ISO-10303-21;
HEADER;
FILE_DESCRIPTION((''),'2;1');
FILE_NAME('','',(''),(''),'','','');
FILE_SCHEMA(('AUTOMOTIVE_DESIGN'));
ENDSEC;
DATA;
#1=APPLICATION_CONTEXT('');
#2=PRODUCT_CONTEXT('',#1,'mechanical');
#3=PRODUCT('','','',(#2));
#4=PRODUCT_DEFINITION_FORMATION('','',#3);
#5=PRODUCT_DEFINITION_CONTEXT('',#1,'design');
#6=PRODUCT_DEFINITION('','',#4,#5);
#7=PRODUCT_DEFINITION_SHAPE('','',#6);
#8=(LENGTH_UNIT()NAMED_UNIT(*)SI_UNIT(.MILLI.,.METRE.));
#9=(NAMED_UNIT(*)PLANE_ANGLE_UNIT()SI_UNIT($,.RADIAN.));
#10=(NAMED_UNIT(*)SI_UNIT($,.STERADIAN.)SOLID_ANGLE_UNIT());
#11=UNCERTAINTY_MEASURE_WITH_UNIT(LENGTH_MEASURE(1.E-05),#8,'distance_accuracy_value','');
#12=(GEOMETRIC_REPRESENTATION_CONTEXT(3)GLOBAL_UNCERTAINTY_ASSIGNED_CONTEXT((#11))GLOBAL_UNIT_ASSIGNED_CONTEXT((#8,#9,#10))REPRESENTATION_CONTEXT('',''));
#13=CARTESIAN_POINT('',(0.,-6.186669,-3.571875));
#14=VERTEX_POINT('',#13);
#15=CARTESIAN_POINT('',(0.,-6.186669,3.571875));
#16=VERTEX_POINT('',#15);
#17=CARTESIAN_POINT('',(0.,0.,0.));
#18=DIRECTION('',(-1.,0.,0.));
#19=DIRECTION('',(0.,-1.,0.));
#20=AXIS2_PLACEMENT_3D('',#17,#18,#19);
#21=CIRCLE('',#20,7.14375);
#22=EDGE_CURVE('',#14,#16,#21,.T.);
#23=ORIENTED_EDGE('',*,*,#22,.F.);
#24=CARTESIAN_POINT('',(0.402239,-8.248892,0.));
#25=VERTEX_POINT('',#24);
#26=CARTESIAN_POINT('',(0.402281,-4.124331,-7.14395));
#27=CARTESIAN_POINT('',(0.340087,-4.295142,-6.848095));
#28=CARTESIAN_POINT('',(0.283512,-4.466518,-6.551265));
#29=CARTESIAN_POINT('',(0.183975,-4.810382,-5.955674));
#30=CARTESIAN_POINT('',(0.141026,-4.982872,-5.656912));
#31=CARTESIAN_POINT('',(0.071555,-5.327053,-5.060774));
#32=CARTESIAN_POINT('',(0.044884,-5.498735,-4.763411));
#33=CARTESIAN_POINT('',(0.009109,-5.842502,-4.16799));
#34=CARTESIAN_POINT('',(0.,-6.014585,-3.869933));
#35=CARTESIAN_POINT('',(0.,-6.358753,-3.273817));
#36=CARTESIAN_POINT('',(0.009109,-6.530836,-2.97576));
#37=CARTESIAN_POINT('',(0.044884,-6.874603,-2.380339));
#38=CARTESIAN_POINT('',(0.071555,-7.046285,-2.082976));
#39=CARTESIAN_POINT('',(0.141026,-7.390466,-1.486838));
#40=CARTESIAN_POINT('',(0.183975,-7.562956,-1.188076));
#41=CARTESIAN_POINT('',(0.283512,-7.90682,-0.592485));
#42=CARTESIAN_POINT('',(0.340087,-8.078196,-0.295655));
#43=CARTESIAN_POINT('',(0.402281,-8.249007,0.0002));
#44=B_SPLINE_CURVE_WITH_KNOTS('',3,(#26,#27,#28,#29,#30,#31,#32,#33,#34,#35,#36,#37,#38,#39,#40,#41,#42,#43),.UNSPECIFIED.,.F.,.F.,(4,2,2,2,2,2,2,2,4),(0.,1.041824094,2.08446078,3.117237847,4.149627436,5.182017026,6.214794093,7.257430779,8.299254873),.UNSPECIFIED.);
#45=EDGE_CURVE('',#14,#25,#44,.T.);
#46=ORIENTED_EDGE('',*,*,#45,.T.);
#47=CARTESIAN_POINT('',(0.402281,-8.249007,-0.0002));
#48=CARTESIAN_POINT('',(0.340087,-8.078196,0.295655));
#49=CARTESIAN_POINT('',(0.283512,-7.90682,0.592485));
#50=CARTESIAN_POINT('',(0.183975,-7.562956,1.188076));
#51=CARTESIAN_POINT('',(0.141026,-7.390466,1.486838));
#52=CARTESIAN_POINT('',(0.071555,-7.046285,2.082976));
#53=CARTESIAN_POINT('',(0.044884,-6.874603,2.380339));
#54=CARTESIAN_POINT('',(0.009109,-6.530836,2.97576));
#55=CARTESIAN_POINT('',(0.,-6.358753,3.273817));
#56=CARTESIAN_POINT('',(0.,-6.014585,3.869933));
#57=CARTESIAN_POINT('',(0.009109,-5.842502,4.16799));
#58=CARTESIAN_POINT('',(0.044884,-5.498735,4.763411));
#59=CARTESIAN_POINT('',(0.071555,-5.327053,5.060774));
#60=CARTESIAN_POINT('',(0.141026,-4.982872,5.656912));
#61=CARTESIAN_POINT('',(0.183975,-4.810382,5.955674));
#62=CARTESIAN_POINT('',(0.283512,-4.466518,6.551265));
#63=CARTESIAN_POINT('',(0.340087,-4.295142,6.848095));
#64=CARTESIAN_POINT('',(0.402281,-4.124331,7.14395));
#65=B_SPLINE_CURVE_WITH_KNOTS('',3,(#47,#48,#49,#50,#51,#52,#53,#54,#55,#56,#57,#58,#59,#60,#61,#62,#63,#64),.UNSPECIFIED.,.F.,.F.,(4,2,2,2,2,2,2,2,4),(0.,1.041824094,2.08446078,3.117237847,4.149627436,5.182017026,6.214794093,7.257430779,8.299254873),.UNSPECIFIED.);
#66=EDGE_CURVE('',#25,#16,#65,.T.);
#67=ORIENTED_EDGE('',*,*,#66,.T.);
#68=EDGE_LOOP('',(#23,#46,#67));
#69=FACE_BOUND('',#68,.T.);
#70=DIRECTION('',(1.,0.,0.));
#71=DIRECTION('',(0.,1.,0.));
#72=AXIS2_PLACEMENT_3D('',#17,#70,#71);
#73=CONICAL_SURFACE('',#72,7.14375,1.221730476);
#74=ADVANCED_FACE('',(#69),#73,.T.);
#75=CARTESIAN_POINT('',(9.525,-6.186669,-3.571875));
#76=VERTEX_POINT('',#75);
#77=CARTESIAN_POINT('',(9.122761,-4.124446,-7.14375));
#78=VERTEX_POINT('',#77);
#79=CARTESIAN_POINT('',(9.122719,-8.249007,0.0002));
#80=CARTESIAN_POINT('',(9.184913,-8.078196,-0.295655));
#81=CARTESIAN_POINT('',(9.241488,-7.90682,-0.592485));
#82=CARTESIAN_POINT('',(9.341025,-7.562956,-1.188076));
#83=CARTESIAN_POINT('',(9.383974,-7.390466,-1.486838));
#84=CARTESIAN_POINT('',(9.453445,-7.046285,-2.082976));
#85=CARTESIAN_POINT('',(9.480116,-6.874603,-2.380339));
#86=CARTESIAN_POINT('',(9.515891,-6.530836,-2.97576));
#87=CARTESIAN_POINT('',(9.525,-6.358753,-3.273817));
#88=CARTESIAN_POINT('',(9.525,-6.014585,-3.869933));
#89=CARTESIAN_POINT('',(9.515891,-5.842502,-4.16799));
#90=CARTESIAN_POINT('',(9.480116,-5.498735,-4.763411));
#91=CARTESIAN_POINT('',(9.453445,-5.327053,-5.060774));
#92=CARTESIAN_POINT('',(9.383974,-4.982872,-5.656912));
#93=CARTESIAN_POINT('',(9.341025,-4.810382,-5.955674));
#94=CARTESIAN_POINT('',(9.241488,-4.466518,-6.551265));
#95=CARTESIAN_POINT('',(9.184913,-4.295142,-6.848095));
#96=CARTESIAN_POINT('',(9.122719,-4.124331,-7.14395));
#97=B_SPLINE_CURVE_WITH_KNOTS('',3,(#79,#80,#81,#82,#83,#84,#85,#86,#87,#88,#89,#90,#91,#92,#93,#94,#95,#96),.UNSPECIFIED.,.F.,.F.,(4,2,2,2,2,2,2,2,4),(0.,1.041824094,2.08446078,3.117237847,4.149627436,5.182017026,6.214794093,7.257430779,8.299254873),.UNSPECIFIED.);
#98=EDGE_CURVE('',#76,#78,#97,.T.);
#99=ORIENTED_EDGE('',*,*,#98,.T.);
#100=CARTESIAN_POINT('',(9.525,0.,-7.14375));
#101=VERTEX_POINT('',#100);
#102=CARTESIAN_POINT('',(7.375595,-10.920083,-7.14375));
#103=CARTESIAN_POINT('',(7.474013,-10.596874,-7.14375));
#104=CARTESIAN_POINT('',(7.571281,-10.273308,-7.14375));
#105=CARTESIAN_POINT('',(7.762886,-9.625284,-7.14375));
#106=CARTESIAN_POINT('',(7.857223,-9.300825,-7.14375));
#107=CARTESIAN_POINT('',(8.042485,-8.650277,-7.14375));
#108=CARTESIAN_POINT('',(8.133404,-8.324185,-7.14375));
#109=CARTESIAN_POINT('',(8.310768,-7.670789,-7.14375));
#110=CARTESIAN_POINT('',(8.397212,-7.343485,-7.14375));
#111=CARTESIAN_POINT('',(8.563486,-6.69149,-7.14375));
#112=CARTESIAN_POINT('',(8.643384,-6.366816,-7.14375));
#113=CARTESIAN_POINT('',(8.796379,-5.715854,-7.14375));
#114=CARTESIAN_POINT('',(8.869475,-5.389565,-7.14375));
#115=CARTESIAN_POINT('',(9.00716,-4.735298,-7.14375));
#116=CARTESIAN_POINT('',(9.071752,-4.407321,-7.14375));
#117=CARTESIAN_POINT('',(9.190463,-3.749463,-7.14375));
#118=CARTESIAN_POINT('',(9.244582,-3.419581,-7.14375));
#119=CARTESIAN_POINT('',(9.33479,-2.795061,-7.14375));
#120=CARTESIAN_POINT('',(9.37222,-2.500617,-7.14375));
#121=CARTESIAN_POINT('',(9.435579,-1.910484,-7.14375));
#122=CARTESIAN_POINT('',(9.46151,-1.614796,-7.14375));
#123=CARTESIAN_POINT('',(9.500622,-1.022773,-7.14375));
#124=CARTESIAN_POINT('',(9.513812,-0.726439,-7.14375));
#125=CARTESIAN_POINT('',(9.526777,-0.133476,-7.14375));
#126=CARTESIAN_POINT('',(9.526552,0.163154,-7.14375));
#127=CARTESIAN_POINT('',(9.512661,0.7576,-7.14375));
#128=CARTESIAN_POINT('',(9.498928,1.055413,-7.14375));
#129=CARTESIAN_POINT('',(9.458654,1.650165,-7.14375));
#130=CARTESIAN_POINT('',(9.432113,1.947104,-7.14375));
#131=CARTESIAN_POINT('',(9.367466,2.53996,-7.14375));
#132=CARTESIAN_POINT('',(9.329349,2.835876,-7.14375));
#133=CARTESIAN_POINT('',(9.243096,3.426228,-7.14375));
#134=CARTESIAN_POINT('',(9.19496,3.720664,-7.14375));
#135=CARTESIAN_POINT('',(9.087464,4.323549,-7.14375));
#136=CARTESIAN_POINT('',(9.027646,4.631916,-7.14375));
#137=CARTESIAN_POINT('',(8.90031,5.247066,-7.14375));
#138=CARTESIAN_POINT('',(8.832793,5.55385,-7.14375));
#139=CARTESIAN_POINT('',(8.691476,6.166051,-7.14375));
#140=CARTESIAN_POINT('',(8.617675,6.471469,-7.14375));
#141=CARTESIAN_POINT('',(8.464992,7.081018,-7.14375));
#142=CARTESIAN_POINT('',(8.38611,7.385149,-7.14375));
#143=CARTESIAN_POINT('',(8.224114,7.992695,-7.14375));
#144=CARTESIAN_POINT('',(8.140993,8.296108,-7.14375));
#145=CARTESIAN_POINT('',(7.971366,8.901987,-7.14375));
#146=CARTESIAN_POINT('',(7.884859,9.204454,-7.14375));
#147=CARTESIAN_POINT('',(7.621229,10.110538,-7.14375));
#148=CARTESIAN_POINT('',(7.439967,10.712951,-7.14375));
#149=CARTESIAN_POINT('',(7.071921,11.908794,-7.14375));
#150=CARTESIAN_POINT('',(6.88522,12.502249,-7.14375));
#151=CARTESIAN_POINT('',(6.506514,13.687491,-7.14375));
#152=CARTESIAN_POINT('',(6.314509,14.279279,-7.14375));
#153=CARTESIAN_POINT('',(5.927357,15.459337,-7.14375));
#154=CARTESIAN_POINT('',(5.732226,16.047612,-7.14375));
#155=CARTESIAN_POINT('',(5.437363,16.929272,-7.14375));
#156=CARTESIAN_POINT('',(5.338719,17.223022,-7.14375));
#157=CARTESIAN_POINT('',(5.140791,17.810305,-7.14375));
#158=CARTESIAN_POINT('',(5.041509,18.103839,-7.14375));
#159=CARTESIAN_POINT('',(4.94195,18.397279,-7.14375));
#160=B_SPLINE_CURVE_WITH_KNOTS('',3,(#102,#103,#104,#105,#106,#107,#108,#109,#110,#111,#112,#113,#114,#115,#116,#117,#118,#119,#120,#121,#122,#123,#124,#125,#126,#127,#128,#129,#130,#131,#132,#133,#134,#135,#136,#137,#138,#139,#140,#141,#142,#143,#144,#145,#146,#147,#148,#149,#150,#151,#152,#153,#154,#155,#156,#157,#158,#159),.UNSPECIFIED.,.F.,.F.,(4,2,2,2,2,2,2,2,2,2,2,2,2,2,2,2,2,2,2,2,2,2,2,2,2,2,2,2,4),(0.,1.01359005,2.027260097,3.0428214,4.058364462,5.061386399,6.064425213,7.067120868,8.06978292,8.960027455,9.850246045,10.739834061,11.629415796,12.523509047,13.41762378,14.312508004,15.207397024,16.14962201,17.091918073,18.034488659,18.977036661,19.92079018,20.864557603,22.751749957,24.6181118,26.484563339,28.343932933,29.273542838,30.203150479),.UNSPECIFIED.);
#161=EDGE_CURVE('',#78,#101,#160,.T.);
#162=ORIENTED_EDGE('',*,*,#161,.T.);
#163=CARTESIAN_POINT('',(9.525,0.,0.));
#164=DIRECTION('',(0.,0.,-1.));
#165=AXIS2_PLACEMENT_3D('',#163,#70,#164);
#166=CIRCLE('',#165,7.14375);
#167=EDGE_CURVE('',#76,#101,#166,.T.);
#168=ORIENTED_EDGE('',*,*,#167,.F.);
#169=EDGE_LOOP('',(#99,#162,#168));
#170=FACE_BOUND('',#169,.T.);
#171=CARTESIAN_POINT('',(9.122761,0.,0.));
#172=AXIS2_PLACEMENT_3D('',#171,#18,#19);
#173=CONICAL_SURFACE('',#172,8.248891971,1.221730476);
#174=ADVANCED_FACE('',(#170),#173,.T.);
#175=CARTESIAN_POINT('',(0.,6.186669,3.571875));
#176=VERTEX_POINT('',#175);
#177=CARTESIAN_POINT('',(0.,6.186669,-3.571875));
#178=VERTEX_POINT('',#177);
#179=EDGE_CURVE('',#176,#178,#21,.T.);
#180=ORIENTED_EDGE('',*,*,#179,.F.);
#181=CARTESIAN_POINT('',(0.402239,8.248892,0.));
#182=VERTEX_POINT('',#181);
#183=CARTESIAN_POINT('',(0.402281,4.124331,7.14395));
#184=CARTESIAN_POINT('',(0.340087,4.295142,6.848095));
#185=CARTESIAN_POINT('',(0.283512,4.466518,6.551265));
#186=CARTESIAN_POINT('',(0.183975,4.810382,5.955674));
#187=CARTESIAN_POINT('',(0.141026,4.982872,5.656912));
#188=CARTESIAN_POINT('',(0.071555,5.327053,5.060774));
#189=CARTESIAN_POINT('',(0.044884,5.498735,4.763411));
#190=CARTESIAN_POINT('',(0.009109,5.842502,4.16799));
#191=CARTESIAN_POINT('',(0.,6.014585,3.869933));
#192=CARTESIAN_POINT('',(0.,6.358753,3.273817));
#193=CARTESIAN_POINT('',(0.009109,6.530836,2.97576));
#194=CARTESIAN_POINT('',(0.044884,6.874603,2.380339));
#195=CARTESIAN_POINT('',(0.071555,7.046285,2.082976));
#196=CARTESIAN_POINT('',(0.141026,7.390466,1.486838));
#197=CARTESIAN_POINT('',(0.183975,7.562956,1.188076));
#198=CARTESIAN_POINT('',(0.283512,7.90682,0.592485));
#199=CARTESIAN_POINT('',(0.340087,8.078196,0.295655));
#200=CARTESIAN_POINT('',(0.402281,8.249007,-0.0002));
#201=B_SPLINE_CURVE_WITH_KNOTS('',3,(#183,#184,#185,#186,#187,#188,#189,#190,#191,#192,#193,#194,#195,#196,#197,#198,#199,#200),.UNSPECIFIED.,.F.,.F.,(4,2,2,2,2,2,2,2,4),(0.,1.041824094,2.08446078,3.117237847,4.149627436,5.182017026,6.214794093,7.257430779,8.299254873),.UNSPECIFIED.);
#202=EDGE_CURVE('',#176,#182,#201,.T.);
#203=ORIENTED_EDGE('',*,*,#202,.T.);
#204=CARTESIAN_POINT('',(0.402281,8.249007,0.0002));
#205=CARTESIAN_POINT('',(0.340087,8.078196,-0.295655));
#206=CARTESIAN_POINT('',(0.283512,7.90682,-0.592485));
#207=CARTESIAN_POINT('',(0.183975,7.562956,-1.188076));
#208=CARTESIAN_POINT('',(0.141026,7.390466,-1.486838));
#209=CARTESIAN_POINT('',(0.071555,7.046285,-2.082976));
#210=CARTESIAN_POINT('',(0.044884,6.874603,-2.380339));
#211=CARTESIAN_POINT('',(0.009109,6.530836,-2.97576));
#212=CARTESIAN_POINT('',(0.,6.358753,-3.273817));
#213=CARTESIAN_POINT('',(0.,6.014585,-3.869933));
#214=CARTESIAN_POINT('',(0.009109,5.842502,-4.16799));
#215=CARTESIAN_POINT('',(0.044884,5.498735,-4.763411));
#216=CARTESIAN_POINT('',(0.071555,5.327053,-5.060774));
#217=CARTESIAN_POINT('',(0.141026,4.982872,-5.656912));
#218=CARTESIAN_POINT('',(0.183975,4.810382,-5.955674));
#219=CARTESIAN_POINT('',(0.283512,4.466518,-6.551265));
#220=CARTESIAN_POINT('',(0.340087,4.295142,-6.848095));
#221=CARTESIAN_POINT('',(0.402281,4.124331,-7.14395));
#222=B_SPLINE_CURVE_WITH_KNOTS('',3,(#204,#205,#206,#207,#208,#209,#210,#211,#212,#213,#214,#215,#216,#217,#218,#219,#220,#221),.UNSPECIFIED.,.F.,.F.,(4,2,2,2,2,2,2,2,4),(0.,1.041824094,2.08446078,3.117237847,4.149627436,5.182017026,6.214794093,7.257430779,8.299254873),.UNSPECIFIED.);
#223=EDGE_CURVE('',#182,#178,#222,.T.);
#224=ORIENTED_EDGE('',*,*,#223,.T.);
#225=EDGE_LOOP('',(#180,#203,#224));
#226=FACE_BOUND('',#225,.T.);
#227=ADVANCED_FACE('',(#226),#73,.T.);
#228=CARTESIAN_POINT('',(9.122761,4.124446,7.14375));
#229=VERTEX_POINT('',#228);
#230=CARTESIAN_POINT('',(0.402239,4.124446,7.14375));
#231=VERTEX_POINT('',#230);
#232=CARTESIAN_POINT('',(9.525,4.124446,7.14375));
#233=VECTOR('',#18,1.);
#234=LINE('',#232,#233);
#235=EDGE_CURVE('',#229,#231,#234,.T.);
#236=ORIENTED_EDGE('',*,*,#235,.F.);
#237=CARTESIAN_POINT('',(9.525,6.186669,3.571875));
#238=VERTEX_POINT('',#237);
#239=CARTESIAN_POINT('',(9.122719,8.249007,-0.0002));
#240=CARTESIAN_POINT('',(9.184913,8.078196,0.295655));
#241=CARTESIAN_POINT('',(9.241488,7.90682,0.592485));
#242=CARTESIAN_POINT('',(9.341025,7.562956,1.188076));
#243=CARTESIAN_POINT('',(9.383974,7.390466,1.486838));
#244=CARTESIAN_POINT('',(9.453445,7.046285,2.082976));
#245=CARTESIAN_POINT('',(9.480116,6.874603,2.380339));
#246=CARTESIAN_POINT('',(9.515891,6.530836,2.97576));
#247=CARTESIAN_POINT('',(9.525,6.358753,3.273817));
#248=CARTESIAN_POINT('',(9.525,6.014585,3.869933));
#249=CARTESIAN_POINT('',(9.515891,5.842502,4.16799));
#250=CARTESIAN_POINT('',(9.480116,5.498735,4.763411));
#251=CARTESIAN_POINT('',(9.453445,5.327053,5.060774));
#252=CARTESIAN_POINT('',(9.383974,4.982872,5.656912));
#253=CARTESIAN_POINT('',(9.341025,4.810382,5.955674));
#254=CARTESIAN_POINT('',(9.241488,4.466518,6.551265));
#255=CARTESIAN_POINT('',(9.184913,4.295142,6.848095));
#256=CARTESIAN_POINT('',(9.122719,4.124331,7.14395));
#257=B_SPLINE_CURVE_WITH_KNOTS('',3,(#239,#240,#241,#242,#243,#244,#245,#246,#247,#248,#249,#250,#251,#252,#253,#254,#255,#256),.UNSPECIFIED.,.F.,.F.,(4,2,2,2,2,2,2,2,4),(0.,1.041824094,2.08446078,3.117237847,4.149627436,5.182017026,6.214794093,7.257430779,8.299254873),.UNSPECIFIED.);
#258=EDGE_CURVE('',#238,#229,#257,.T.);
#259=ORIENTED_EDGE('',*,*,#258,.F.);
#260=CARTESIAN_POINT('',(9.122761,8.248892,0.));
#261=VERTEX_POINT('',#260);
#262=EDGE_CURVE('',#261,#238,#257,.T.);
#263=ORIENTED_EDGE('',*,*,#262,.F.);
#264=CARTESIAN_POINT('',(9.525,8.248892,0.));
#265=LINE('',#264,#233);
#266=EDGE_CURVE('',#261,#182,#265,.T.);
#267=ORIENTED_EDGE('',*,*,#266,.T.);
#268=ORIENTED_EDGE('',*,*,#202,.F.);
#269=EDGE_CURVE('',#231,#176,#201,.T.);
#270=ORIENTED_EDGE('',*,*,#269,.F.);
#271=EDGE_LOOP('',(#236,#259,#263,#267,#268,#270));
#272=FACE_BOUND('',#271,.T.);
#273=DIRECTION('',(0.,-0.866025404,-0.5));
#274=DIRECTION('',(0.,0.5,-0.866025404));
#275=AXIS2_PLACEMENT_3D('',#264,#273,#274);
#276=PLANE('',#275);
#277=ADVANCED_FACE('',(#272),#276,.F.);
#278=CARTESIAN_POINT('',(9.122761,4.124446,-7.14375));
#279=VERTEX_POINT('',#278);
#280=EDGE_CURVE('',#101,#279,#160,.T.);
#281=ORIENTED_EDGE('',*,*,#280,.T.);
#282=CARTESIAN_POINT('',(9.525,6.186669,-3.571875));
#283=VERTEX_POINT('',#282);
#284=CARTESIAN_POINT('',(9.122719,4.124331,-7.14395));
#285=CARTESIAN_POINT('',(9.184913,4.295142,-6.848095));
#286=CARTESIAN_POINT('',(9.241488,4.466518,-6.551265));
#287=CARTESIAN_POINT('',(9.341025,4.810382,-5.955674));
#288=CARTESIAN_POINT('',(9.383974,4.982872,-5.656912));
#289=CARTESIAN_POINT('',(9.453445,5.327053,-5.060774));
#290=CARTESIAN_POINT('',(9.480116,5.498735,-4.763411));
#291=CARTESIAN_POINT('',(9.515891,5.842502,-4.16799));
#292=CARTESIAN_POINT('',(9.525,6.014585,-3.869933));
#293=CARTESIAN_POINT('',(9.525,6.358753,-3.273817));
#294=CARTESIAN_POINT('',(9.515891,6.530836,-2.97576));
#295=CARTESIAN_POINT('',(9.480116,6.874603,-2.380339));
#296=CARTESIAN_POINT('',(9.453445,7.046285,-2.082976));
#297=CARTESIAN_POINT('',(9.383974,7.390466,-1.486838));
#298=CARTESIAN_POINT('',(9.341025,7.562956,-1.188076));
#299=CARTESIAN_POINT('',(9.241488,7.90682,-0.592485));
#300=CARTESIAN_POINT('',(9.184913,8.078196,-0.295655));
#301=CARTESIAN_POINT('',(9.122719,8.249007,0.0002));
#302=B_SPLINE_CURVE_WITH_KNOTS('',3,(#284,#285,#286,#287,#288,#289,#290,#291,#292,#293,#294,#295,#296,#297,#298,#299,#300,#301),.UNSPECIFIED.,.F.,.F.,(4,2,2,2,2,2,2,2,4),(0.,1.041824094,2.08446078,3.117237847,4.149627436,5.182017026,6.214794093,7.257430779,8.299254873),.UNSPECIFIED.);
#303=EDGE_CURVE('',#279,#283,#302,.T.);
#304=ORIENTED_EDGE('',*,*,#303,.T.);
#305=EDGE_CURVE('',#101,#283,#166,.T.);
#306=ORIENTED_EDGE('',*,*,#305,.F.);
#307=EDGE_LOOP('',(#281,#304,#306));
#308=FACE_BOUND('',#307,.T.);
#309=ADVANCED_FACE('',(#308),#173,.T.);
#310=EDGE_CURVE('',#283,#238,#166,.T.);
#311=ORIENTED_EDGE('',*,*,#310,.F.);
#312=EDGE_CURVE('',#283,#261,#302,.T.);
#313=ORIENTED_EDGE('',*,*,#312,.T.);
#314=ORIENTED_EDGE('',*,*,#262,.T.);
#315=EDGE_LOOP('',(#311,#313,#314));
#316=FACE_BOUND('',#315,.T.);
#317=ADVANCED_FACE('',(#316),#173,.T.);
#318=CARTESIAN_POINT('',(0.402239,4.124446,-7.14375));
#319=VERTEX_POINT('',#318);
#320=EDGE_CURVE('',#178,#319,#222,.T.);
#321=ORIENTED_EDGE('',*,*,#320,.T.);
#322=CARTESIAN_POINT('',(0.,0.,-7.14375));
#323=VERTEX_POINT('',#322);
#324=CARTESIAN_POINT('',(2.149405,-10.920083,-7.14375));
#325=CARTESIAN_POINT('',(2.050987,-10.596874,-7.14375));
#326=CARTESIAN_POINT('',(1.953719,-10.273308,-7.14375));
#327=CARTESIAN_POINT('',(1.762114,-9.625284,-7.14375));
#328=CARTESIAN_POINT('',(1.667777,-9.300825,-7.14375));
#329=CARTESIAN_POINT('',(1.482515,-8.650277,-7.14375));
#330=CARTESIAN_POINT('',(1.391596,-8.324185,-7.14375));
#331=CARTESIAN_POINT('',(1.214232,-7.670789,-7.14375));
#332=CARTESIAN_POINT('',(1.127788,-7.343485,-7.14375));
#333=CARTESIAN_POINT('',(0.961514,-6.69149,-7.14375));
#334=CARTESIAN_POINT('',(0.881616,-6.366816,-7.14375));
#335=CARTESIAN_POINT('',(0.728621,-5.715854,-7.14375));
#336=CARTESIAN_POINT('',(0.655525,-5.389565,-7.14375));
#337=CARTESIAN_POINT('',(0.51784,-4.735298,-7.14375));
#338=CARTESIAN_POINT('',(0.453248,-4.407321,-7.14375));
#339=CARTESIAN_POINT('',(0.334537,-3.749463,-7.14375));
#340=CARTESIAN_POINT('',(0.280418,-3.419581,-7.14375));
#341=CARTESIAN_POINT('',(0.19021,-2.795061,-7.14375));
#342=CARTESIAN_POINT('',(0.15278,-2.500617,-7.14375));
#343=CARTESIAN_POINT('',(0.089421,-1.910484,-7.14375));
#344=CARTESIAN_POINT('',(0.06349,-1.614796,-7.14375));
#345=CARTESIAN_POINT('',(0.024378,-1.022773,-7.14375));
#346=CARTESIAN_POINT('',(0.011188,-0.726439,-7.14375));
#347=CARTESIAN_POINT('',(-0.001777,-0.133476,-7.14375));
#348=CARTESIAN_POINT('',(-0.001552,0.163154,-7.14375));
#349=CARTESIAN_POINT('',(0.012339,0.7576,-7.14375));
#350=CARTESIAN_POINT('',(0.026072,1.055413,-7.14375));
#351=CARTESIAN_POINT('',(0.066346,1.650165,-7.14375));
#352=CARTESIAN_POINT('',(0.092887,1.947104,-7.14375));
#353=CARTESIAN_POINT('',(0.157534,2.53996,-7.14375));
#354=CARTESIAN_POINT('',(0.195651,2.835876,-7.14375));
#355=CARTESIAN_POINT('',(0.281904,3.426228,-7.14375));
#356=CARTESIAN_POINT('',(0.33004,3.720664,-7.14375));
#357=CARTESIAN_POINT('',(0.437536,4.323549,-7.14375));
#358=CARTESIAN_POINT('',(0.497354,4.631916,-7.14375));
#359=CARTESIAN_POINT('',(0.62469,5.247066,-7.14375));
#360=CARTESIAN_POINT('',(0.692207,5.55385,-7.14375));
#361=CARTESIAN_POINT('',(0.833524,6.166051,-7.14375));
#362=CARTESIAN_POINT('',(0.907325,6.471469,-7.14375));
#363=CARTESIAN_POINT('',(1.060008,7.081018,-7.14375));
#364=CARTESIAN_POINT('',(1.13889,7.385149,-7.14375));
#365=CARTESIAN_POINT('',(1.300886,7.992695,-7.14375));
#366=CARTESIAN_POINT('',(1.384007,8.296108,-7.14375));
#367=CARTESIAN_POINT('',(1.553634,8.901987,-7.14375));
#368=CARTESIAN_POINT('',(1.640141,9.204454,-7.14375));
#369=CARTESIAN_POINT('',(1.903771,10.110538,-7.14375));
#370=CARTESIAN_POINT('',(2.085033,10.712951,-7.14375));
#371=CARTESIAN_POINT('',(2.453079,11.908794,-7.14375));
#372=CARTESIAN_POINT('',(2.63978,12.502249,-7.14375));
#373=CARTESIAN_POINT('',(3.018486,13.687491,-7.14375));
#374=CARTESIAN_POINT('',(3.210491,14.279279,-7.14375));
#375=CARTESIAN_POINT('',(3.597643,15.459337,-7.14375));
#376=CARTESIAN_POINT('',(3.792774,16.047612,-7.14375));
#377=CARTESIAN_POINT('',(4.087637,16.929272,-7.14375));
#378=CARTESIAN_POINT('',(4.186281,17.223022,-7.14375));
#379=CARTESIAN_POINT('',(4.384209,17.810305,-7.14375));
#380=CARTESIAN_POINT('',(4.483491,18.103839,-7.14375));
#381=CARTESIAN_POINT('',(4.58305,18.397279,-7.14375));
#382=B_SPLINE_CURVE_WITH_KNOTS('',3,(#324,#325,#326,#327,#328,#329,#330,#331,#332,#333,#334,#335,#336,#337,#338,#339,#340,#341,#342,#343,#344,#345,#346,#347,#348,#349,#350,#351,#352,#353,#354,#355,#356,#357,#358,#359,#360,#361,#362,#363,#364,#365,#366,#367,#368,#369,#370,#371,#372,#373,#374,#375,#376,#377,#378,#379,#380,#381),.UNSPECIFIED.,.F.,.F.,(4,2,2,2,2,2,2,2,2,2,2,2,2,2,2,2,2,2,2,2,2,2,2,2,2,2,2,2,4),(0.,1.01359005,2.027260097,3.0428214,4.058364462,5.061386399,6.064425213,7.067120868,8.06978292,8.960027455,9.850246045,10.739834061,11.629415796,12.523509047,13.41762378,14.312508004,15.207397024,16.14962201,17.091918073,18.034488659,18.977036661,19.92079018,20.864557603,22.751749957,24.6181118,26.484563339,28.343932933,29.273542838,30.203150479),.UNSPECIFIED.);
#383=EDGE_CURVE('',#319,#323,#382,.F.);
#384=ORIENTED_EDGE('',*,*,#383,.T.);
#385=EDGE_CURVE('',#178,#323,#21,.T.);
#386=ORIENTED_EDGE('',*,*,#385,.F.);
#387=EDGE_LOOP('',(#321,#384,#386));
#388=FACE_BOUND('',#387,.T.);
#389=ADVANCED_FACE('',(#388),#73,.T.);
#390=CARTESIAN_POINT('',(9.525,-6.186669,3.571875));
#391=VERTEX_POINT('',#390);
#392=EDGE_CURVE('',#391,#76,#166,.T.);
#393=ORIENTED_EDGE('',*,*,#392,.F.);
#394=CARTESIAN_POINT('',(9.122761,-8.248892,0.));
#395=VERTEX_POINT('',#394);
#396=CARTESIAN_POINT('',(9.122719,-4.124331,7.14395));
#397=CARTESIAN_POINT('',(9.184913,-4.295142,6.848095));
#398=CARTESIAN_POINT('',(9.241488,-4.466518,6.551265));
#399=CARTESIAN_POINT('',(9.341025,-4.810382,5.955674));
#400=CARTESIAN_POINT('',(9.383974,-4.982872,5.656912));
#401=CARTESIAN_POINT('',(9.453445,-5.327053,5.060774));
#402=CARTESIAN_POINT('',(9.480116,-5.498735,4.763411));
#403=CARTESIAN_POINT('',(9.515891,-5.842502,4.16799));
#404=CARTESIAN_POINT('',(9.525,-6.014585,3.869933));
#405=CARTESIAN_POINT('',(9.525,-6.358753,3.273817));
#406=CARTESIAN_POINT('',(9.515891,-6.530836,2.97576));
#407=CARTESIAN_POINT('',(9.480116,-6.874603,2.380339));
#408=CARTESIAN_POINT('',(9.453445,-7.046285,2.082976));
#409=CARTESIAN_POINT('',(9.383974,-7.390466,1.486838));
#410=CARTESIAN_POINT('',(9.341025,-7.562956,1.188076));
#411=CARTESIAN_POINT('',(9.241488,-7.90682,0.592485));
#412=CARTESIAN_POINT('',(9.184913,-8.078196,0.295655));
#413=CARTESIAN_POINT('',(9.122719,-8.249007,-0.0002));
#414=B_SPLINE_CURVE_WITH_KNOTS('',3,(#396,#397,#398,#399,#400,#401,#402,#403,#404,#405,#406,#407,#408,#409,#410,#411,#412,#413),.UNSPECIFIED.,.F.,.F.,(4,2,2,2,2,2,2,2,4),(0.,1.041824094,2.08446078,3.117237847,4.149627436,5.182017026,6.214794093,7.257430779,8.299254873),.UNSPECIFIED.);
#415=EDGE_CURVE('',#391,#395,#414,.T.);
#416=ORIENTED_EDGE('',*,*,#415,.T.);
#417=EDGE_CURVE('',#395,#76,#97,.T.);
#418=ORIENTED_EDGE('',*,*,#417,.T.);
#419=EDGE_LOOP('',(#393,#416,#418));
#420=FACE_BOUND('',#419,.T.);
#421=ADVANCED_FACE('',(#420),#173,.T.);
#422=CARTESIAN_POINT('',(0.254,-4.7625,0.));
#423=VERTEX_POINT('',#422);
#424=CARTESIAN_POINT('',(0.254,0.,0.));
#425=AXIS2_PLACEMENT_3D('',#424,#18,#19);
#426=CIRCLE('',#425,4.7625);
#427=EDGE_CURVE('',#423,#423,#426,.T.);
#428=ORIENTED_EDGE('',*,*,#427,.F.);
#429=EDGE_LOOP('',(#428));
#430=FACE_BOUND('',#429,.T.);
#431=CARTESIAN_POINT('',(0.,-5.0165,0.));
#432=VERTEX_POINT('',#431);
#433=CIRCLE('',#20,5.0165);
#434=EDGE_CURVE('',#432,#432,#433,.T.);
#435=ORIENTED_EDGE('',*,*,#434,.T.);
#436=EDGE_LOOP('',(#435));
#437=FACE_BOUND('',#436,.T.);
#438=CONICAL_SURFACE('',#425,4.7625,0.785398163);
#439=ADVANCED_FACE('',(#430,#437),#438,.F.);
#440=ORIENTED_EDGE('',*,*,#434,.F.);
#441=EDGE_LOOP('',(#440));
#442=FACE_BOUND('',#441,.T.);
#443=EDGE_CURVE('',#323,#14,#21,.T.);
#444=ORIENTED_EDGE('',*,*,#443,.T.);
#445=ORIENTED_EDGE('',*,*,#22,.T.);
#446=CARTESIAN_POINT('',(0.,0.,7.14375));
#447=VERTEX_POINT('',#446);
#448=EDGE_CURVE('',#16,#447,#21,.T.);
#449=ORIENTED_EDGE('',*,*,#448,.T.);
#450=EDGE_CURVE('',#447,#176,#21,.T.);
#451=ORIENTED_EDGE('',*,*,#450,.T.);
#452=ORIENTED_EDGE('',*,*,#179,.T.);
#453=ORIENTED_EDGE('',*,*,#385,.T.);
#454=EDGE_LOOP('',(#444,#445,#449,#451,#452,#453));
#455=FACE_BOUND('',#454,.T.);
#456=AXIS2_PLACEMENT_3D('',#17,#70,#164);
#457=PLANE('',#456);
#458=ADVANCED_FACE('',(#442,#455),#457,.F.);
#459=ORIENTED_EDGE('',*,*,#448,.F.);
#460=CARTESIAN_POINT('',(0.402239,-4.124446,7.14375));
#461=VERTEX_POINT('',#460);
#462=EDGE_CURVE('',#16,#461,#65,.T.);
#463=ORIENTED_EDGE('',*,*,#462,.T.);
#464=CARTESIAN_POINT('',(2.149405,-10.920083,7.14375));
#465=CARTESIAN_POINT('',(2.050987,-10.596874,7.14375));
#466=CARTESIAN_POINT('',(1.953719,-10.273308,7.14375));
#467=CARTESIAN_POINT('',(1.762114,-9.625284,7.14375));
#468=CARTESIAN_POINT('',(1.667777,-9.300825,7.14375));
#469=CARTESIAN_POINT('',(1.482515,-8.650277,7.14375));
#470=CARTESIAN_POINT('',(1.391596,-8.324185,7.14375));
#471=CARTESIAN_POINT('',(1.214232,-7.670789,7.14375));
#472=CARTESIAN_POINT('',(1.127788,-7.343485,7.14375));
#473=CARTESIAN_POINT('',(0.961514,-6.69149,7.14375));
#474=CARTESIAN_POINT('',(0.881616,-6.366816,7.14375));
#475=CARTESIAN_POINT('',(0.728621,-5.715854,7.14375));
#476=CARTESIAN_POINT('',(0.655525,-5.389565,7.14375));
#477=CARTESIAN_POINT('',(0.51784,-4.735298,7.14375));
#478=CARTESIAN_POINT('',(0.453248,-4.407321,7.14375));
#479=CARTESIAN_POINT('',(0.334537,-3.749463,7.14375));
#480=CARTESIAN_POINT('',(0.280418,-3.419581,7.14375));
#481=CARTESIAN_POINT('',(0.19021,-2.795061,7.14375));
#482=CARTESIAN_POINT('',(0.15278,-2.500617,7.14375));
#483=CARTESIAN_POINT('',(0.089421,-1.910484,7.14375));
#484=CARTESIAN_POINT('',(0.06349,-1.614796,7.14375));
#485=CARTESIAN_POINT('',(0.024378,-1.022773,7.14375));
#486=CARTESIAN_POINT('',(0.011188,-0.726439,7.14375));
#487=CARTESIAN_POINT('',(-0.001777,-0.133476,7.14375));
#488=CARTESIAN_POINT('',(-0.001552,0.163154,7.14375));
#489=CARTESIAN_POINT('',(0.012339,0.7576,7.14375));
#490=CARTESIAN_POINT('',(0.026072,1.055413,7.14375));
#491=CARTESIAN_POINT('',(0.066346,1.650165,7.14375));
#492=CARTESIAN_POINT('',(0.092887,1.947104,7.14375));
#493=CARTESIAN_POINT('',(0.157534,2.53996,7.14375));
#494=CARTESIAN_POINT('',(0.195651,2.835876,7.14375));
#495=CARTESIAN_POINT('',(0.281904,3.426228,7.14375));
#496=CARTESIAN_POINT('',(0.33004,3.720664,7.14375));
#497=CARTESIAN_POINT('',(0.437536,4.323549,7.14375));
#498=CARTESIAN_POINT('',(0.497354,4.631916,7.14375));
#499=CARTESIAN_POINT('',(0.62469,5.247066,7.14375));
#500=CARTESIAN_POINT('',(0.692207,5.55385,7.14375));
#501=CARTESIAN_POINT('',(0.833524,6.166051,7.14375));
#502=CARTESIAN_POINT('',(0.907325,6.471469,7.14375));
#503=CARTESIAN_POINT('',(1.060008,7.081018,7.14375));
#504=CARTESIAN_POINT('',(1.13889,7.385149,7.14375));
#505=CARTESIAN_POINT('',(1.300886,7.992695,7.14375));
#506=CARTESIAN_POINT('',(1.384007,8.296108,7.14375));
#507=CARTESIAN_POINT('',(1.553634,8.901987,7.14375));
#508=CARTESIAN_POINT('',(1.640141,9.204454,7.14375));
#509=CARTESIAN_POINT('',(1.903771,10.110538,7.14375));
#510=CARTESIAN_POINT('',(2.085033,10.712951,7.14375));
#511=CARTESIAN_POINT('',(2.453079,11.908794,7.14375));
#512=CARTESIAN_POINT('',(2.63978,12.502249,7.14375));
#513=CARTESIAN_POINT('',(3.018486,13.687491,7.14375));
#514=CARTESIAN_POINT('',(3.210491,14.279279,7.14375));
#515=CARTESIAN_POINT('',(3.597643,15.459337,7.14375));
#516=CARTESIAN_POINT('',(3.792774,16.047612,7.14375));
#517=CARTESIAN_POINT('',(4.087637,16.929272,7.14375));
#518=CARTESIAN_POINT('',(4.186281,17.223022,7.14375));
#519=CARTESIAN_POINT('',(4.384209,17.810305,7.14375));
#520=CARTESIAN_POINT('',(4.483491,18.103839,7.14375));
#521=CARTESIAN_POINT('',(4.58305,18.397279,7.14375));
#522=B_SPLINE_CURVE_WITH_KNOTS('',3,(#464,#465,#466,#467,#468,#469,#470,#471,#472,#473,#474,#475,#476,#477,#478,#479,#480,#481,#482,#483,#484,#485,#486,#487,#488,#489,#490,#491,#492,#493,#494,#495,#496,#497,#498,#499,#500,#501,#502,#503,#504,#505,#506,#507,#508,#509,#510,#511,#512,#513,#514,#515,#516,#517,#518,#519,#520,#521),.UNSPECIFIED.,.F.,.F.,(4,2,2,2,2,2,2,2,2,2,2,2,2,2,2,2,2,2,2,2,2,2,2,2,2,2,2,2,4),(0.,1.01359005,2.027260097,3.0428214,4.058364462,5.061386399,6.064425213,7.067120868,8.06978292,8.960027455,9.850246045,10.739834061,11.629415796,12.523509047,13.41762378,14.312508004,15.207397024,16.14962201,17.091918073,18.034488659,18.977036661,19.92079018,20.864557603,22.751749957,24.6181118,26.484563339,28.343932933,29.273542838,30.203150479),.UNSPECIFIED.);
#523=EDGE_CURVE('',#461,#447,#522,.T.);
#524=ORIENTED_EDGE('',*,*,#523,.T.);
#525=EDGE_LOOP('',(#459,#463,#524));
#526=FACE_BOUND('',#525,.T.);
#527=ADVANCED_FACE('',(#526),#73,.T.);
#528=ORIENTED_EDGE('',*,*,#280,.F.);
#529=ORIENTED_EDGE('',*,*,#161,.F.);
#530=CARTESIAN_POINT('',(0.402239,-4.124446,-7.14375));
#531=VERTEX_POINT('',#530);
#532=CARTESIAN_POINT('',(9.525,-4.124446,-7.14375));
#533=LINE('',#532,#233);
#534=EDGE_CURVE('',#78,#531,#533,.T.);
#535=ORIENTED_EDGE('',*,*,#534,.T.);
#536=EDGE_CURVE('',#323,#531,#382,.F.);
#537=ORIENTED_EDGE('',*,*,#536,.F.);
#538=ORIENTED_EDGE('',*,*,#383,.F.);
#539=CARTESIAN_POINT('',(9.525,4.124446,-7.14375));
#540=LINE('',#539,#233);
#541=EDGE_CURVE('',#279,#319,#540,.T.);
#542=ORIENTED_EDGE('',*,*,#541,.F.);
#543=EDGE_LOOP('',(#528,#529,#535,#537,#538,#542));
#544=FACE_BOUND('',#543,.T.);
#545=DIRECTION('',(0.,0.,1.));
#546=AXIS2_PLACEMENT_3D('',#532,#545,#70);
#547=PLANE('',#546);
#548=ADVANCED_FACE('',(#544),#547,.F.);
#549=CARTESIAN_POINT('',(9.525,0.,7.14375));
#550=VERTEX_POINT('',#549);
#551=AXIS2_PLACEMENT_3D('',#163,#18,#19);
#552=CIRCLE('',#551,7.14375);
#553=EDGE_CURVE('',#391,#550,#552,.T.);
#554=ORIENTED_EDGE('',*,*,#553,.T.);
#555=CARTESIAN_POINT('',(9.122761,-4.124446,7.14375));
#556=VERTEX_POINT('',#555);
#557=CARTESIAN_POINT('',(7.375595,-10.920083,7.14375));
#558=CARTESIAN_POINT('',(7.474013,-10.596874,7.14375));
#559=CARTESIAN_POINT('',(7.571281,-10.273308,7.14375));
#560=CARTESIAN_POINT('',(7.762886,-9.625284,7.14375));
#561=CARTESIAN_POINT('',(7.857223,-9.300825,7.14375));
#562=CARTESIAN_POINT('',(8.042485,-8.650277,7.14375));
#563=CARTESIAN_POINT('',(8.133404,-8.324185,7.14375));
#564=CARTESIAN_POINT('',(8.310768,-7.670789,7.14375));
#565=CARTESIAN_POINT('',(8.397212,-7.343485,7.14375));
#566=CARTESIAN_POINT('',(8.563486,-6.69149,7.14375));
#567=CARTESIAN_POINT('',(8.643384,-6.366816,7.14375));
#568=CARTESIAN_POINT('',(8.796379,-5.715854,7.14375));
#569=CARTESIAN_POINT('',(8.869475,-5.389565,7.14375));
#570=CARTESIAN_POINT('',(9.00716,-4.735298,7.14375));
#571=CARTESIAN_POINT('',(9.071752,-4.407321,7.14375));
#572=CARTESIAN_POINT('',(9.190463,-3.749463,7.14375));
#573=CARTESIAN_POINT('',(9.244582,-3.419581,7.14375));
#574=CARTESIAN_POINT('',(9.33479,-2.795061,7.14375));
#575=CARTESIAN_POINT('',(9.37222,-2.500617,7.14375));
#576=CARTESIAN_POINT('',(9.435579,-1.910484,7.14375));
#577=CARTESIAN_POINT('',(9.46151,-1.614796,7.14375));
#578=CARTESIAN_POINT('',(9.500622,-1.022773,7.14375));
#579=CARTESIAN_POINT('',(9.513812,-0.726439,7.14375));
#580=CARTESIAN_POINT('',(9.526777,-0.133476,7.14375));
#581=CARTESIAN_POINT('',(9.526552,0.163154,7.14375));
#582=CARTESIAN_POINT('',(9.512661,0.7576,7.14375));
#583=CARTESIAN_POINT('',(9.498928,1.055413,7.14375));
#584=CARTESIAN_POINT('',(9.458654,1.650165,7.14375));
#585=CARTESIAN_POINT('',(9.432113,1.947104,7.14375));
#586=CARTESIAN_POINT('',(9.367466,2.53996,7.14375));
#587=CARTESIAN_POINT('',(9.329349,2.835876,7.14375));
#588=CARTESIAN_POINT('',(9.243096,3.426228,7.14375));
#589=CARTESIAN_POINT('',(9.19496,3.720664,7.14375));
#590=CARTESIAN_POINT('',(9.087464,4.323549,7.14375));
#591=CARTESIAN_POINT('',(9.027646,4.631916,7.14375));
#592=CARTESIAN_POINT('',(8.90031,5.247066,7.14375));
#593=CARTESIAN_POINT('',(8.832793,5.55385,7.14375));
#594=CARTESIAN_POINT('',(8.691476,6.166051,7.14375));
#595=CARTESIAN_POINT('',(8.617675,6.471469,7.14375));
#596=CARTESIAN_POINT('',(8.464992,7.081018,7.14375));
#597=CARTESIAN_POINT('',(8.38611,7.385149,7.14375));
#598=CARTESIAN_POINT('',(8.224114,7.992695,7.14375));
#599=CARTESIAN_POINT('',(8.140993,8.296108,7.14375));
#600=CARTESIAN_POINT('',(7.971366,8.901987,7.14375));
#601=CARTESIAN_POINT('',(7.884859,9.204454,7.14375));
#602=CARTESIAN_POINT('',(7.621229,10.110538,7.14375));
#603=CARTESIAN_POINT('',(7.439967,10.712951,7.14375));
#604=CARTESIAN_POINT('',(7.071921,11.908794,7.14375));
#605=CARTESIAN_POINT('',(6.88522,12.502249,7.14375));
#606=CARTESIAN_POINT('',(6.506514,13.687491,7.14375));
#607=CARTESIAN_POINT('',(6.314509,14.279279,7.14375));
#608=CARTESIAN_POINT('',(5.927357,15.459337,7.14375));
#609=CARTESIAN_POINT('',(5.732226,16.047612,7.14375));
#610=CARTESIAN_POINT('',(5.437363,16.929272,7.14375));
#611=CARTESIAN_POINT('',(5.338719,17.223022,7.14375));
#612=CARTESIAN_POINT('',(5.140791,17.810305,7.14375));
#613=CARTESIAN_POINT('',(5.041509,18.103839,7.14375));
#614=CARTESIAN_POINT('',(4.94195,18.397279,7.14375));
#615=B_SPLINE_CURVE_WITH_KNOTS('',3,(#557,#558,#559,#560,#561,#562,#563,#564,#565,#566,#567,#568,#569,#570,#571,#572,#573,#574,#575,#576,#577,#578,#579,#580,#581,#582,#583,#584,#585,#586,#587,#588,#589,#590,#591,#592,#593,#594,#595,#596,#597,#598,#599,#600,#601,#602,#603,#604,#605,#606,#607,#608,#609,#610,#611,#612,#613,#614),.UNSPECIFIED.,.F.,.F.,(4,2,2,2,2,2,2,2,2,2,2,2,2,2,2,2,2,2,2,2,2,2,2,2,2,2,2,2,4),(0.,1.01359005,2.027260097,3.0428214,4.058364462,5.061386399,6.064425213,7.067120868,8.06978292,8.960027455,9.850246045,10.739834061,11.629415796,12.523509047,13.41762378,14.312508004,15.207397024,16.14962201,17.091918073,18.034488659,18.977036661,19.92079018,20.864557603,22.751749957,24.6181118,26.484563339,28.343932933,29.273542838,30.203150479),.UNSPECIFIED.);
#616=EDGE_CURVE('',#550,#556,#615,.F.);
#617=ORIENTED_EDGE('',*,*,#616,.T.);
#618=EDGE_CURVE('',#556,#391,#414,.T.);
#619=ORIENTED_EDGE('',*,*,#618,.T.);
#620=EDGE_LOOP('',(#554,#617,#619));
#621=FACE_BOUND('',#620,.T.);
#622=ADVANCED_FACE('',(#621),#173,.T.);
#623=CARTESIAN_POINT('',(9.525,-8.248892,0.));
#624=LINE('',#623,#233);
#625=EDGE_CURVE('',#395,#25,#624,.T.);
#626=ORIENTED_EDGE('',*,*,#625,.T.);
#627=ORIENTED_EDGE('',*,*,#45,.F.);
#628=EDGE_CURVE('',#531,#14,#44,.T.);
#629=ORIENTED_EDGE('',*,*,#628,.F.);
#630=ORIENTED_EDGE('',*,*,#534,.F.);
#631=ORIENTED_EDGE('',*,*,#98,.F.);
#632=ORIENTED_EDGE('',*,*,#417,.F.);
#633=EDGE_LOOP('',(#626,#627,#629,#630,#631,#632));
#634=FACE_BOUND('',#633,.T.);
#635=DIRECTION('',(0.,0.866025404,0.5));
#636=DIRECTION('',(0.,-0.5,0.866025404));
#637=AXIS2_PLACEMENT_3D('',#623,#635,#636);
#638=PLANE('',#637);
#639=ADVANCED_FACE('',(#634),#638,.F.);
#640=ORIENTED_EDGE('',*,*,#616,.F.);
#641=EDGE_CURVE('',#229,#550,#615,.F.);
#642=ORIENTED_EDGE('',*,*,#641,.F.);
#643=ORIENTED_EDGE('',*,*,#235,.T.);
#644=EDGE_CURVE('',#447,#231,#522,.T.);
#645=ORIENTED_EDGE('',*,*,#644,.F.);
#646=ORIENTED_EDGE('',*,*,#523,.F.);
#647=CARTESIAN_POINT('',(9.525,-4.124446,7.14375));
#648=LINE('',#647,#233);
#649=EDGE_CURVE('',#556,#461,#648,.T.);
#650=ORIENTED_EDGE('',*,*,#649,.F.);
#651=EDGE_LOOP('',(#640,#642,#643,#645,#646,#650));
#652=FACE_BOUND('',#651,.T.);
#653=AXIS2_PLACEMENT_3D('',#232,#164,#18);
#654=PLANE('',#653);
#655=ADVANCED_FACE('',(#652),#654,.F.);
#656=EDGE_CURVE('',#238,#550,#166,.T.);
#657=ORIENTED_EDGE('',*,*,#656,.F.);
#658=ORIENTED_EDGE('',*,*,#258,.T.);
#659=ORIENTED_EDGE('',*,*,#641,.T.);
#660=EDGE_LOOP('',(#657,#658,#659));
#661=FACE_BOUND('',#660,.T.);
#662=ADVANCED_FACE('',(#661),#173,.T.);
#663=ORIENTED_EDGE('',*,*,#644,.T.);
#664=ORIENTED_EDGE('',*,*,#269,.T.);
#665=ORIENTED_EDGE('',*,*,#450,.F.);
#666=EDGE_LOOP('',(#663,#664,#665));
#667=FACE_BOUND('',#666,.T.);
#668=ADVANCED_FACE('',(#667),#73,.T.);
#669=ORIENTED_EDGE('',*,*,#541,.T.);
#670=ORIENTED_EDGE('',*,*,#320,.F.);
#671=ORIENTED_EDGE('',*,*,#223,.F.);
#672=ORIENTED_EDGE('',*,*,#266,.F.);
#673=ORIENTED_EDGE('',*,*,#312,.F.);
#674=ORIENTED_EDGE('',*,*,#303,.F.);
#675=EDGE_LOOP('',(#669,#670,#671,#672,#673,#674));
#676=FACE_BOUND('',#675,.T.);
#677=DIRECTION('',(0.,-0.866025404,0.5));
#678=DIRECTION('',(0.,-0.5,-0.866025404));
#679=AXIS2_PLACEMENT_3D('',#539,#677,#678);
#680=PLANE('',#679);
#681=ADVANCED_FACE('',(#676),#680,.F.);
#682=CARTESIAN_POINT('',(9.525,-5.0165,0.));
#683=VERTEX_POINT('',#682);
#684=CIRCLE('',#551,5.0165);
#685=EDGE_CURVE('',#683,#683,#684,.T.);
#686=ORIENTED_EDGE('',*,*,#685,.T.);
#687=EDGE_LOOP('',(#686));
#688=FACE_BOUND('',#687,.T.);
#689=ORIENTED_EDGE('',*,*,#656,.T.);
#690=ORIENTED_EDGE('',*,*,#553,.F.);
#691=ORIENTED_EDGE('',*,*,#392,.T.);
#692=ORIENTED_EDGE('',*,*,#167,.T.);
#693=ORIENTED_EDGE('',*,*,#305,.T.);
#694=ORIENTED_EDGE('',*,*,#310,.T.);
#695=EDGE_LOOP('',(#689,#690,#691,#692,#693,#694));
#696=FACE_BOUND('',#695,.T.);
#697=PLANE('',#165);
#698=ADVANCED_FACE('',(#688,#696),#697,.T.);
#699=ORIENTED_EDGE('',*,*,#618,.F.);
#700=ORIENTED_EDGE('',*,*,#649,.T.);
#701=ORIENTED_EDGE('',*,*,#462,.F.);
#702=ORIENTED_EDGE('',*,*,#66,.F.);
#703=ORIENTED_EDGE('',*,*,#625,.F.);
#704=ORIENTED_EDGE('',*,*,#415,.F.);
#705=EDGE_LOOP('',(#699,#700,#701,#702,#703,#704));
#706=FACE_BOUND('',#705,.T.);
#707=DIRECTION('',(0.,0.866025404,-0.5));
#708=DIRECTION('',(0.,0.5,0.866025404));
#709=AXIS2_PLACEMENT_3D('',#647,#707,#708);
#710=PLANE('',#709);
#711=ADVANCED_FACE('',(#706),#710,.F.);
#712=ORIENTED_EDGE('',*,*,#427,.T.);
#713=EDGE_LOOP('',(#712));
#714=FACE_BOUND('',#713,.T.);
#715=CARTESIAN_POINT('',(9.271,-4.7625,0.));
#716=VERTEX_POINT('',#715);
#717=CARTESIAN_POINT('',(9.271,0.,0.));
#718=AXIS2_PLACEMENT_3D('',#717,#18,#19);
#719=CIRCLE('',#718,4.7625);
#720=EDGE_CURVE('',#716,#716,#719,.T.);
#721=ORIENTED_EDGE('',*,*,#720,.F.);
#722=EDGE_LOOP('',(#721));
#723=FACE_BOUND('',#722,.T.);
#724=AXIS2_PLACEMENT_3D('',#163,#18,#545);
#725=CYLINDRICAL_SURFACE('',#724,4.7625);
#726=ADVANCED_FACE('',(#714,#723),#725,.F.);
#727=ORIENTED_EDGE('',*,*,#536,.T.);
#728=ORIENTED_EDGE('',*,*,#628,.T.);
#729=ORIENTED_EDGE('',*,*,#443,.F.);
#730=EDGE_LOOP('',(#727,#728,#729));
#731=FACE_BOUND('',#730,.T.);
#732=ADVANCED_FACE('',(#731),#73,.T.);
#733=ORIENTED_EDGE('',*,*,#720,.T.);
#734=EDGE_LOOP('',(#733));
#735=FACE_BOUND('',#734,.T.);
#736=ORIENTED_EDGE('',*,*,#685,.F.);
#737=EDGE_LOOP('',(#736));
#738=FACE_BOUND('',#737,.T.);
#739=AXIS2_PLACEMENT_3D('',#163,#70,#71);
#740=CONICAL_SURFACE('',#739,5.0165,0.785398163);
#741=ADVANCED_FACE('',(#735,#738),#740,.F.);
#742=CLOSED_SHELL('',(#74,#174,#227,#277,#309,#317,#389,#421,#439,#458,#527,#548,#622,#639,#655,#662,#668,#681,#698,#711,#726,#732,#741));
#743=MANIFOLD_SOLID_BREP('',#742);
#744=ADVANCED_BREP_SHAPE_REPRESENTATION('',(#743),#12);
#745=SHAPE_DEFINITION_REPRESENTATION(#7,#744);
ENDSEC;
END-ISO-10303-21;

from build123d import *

# Parameters (mm, degrees)
SKETCH1_R           = 4.7625
BOSS_EXTRUDE1_DEPTH = 9.525


with BuildPart() as part:
    # Sketch1 → Boss-Extrude1 (new body)
    with BuildSketch(Plane(origin=(0, 0, 0), x_dir=(0, 0, -1), z_dir=(1, 0, 0))):
        Polygon((0, 8.248891971), (-7.14375, 4.124445986), (-7.14375, -4.124445986), (0, -8.248891971), (7.14375, -4.124445986), (7.14375, 4.124445986), align=None)
        Circle(SKETCH1_R, mode=Mode.SUBTRACT)
    extrude(amount=BOSS_EXTRUDE1_DEPTH)

    # Sketch2 → Cut-Revolve1 (revolve, cut)
    with BuildSketch(Plane.XY):
        Polygon((0, 7.14375), (0.402238782, 8.248891971), (0, 8.248891971), align=None)
        Polygon((0, 4.7625), (0.254, 4.7625), (0, 5.0165), align=None)
        Polygon((9.525, 5.0165), (9.525, 4.7625), (9.271, 4.7625), align=None)
        Polygon((9.525, 8.248891971), (9.525, 7.14375), (9.122761218, 8.248891971), align=None)
    revolve(axis=Axis((0, 0, 0), (1, 0, 0)), mode=Mode.SUBTRACT)


solid = part.part
